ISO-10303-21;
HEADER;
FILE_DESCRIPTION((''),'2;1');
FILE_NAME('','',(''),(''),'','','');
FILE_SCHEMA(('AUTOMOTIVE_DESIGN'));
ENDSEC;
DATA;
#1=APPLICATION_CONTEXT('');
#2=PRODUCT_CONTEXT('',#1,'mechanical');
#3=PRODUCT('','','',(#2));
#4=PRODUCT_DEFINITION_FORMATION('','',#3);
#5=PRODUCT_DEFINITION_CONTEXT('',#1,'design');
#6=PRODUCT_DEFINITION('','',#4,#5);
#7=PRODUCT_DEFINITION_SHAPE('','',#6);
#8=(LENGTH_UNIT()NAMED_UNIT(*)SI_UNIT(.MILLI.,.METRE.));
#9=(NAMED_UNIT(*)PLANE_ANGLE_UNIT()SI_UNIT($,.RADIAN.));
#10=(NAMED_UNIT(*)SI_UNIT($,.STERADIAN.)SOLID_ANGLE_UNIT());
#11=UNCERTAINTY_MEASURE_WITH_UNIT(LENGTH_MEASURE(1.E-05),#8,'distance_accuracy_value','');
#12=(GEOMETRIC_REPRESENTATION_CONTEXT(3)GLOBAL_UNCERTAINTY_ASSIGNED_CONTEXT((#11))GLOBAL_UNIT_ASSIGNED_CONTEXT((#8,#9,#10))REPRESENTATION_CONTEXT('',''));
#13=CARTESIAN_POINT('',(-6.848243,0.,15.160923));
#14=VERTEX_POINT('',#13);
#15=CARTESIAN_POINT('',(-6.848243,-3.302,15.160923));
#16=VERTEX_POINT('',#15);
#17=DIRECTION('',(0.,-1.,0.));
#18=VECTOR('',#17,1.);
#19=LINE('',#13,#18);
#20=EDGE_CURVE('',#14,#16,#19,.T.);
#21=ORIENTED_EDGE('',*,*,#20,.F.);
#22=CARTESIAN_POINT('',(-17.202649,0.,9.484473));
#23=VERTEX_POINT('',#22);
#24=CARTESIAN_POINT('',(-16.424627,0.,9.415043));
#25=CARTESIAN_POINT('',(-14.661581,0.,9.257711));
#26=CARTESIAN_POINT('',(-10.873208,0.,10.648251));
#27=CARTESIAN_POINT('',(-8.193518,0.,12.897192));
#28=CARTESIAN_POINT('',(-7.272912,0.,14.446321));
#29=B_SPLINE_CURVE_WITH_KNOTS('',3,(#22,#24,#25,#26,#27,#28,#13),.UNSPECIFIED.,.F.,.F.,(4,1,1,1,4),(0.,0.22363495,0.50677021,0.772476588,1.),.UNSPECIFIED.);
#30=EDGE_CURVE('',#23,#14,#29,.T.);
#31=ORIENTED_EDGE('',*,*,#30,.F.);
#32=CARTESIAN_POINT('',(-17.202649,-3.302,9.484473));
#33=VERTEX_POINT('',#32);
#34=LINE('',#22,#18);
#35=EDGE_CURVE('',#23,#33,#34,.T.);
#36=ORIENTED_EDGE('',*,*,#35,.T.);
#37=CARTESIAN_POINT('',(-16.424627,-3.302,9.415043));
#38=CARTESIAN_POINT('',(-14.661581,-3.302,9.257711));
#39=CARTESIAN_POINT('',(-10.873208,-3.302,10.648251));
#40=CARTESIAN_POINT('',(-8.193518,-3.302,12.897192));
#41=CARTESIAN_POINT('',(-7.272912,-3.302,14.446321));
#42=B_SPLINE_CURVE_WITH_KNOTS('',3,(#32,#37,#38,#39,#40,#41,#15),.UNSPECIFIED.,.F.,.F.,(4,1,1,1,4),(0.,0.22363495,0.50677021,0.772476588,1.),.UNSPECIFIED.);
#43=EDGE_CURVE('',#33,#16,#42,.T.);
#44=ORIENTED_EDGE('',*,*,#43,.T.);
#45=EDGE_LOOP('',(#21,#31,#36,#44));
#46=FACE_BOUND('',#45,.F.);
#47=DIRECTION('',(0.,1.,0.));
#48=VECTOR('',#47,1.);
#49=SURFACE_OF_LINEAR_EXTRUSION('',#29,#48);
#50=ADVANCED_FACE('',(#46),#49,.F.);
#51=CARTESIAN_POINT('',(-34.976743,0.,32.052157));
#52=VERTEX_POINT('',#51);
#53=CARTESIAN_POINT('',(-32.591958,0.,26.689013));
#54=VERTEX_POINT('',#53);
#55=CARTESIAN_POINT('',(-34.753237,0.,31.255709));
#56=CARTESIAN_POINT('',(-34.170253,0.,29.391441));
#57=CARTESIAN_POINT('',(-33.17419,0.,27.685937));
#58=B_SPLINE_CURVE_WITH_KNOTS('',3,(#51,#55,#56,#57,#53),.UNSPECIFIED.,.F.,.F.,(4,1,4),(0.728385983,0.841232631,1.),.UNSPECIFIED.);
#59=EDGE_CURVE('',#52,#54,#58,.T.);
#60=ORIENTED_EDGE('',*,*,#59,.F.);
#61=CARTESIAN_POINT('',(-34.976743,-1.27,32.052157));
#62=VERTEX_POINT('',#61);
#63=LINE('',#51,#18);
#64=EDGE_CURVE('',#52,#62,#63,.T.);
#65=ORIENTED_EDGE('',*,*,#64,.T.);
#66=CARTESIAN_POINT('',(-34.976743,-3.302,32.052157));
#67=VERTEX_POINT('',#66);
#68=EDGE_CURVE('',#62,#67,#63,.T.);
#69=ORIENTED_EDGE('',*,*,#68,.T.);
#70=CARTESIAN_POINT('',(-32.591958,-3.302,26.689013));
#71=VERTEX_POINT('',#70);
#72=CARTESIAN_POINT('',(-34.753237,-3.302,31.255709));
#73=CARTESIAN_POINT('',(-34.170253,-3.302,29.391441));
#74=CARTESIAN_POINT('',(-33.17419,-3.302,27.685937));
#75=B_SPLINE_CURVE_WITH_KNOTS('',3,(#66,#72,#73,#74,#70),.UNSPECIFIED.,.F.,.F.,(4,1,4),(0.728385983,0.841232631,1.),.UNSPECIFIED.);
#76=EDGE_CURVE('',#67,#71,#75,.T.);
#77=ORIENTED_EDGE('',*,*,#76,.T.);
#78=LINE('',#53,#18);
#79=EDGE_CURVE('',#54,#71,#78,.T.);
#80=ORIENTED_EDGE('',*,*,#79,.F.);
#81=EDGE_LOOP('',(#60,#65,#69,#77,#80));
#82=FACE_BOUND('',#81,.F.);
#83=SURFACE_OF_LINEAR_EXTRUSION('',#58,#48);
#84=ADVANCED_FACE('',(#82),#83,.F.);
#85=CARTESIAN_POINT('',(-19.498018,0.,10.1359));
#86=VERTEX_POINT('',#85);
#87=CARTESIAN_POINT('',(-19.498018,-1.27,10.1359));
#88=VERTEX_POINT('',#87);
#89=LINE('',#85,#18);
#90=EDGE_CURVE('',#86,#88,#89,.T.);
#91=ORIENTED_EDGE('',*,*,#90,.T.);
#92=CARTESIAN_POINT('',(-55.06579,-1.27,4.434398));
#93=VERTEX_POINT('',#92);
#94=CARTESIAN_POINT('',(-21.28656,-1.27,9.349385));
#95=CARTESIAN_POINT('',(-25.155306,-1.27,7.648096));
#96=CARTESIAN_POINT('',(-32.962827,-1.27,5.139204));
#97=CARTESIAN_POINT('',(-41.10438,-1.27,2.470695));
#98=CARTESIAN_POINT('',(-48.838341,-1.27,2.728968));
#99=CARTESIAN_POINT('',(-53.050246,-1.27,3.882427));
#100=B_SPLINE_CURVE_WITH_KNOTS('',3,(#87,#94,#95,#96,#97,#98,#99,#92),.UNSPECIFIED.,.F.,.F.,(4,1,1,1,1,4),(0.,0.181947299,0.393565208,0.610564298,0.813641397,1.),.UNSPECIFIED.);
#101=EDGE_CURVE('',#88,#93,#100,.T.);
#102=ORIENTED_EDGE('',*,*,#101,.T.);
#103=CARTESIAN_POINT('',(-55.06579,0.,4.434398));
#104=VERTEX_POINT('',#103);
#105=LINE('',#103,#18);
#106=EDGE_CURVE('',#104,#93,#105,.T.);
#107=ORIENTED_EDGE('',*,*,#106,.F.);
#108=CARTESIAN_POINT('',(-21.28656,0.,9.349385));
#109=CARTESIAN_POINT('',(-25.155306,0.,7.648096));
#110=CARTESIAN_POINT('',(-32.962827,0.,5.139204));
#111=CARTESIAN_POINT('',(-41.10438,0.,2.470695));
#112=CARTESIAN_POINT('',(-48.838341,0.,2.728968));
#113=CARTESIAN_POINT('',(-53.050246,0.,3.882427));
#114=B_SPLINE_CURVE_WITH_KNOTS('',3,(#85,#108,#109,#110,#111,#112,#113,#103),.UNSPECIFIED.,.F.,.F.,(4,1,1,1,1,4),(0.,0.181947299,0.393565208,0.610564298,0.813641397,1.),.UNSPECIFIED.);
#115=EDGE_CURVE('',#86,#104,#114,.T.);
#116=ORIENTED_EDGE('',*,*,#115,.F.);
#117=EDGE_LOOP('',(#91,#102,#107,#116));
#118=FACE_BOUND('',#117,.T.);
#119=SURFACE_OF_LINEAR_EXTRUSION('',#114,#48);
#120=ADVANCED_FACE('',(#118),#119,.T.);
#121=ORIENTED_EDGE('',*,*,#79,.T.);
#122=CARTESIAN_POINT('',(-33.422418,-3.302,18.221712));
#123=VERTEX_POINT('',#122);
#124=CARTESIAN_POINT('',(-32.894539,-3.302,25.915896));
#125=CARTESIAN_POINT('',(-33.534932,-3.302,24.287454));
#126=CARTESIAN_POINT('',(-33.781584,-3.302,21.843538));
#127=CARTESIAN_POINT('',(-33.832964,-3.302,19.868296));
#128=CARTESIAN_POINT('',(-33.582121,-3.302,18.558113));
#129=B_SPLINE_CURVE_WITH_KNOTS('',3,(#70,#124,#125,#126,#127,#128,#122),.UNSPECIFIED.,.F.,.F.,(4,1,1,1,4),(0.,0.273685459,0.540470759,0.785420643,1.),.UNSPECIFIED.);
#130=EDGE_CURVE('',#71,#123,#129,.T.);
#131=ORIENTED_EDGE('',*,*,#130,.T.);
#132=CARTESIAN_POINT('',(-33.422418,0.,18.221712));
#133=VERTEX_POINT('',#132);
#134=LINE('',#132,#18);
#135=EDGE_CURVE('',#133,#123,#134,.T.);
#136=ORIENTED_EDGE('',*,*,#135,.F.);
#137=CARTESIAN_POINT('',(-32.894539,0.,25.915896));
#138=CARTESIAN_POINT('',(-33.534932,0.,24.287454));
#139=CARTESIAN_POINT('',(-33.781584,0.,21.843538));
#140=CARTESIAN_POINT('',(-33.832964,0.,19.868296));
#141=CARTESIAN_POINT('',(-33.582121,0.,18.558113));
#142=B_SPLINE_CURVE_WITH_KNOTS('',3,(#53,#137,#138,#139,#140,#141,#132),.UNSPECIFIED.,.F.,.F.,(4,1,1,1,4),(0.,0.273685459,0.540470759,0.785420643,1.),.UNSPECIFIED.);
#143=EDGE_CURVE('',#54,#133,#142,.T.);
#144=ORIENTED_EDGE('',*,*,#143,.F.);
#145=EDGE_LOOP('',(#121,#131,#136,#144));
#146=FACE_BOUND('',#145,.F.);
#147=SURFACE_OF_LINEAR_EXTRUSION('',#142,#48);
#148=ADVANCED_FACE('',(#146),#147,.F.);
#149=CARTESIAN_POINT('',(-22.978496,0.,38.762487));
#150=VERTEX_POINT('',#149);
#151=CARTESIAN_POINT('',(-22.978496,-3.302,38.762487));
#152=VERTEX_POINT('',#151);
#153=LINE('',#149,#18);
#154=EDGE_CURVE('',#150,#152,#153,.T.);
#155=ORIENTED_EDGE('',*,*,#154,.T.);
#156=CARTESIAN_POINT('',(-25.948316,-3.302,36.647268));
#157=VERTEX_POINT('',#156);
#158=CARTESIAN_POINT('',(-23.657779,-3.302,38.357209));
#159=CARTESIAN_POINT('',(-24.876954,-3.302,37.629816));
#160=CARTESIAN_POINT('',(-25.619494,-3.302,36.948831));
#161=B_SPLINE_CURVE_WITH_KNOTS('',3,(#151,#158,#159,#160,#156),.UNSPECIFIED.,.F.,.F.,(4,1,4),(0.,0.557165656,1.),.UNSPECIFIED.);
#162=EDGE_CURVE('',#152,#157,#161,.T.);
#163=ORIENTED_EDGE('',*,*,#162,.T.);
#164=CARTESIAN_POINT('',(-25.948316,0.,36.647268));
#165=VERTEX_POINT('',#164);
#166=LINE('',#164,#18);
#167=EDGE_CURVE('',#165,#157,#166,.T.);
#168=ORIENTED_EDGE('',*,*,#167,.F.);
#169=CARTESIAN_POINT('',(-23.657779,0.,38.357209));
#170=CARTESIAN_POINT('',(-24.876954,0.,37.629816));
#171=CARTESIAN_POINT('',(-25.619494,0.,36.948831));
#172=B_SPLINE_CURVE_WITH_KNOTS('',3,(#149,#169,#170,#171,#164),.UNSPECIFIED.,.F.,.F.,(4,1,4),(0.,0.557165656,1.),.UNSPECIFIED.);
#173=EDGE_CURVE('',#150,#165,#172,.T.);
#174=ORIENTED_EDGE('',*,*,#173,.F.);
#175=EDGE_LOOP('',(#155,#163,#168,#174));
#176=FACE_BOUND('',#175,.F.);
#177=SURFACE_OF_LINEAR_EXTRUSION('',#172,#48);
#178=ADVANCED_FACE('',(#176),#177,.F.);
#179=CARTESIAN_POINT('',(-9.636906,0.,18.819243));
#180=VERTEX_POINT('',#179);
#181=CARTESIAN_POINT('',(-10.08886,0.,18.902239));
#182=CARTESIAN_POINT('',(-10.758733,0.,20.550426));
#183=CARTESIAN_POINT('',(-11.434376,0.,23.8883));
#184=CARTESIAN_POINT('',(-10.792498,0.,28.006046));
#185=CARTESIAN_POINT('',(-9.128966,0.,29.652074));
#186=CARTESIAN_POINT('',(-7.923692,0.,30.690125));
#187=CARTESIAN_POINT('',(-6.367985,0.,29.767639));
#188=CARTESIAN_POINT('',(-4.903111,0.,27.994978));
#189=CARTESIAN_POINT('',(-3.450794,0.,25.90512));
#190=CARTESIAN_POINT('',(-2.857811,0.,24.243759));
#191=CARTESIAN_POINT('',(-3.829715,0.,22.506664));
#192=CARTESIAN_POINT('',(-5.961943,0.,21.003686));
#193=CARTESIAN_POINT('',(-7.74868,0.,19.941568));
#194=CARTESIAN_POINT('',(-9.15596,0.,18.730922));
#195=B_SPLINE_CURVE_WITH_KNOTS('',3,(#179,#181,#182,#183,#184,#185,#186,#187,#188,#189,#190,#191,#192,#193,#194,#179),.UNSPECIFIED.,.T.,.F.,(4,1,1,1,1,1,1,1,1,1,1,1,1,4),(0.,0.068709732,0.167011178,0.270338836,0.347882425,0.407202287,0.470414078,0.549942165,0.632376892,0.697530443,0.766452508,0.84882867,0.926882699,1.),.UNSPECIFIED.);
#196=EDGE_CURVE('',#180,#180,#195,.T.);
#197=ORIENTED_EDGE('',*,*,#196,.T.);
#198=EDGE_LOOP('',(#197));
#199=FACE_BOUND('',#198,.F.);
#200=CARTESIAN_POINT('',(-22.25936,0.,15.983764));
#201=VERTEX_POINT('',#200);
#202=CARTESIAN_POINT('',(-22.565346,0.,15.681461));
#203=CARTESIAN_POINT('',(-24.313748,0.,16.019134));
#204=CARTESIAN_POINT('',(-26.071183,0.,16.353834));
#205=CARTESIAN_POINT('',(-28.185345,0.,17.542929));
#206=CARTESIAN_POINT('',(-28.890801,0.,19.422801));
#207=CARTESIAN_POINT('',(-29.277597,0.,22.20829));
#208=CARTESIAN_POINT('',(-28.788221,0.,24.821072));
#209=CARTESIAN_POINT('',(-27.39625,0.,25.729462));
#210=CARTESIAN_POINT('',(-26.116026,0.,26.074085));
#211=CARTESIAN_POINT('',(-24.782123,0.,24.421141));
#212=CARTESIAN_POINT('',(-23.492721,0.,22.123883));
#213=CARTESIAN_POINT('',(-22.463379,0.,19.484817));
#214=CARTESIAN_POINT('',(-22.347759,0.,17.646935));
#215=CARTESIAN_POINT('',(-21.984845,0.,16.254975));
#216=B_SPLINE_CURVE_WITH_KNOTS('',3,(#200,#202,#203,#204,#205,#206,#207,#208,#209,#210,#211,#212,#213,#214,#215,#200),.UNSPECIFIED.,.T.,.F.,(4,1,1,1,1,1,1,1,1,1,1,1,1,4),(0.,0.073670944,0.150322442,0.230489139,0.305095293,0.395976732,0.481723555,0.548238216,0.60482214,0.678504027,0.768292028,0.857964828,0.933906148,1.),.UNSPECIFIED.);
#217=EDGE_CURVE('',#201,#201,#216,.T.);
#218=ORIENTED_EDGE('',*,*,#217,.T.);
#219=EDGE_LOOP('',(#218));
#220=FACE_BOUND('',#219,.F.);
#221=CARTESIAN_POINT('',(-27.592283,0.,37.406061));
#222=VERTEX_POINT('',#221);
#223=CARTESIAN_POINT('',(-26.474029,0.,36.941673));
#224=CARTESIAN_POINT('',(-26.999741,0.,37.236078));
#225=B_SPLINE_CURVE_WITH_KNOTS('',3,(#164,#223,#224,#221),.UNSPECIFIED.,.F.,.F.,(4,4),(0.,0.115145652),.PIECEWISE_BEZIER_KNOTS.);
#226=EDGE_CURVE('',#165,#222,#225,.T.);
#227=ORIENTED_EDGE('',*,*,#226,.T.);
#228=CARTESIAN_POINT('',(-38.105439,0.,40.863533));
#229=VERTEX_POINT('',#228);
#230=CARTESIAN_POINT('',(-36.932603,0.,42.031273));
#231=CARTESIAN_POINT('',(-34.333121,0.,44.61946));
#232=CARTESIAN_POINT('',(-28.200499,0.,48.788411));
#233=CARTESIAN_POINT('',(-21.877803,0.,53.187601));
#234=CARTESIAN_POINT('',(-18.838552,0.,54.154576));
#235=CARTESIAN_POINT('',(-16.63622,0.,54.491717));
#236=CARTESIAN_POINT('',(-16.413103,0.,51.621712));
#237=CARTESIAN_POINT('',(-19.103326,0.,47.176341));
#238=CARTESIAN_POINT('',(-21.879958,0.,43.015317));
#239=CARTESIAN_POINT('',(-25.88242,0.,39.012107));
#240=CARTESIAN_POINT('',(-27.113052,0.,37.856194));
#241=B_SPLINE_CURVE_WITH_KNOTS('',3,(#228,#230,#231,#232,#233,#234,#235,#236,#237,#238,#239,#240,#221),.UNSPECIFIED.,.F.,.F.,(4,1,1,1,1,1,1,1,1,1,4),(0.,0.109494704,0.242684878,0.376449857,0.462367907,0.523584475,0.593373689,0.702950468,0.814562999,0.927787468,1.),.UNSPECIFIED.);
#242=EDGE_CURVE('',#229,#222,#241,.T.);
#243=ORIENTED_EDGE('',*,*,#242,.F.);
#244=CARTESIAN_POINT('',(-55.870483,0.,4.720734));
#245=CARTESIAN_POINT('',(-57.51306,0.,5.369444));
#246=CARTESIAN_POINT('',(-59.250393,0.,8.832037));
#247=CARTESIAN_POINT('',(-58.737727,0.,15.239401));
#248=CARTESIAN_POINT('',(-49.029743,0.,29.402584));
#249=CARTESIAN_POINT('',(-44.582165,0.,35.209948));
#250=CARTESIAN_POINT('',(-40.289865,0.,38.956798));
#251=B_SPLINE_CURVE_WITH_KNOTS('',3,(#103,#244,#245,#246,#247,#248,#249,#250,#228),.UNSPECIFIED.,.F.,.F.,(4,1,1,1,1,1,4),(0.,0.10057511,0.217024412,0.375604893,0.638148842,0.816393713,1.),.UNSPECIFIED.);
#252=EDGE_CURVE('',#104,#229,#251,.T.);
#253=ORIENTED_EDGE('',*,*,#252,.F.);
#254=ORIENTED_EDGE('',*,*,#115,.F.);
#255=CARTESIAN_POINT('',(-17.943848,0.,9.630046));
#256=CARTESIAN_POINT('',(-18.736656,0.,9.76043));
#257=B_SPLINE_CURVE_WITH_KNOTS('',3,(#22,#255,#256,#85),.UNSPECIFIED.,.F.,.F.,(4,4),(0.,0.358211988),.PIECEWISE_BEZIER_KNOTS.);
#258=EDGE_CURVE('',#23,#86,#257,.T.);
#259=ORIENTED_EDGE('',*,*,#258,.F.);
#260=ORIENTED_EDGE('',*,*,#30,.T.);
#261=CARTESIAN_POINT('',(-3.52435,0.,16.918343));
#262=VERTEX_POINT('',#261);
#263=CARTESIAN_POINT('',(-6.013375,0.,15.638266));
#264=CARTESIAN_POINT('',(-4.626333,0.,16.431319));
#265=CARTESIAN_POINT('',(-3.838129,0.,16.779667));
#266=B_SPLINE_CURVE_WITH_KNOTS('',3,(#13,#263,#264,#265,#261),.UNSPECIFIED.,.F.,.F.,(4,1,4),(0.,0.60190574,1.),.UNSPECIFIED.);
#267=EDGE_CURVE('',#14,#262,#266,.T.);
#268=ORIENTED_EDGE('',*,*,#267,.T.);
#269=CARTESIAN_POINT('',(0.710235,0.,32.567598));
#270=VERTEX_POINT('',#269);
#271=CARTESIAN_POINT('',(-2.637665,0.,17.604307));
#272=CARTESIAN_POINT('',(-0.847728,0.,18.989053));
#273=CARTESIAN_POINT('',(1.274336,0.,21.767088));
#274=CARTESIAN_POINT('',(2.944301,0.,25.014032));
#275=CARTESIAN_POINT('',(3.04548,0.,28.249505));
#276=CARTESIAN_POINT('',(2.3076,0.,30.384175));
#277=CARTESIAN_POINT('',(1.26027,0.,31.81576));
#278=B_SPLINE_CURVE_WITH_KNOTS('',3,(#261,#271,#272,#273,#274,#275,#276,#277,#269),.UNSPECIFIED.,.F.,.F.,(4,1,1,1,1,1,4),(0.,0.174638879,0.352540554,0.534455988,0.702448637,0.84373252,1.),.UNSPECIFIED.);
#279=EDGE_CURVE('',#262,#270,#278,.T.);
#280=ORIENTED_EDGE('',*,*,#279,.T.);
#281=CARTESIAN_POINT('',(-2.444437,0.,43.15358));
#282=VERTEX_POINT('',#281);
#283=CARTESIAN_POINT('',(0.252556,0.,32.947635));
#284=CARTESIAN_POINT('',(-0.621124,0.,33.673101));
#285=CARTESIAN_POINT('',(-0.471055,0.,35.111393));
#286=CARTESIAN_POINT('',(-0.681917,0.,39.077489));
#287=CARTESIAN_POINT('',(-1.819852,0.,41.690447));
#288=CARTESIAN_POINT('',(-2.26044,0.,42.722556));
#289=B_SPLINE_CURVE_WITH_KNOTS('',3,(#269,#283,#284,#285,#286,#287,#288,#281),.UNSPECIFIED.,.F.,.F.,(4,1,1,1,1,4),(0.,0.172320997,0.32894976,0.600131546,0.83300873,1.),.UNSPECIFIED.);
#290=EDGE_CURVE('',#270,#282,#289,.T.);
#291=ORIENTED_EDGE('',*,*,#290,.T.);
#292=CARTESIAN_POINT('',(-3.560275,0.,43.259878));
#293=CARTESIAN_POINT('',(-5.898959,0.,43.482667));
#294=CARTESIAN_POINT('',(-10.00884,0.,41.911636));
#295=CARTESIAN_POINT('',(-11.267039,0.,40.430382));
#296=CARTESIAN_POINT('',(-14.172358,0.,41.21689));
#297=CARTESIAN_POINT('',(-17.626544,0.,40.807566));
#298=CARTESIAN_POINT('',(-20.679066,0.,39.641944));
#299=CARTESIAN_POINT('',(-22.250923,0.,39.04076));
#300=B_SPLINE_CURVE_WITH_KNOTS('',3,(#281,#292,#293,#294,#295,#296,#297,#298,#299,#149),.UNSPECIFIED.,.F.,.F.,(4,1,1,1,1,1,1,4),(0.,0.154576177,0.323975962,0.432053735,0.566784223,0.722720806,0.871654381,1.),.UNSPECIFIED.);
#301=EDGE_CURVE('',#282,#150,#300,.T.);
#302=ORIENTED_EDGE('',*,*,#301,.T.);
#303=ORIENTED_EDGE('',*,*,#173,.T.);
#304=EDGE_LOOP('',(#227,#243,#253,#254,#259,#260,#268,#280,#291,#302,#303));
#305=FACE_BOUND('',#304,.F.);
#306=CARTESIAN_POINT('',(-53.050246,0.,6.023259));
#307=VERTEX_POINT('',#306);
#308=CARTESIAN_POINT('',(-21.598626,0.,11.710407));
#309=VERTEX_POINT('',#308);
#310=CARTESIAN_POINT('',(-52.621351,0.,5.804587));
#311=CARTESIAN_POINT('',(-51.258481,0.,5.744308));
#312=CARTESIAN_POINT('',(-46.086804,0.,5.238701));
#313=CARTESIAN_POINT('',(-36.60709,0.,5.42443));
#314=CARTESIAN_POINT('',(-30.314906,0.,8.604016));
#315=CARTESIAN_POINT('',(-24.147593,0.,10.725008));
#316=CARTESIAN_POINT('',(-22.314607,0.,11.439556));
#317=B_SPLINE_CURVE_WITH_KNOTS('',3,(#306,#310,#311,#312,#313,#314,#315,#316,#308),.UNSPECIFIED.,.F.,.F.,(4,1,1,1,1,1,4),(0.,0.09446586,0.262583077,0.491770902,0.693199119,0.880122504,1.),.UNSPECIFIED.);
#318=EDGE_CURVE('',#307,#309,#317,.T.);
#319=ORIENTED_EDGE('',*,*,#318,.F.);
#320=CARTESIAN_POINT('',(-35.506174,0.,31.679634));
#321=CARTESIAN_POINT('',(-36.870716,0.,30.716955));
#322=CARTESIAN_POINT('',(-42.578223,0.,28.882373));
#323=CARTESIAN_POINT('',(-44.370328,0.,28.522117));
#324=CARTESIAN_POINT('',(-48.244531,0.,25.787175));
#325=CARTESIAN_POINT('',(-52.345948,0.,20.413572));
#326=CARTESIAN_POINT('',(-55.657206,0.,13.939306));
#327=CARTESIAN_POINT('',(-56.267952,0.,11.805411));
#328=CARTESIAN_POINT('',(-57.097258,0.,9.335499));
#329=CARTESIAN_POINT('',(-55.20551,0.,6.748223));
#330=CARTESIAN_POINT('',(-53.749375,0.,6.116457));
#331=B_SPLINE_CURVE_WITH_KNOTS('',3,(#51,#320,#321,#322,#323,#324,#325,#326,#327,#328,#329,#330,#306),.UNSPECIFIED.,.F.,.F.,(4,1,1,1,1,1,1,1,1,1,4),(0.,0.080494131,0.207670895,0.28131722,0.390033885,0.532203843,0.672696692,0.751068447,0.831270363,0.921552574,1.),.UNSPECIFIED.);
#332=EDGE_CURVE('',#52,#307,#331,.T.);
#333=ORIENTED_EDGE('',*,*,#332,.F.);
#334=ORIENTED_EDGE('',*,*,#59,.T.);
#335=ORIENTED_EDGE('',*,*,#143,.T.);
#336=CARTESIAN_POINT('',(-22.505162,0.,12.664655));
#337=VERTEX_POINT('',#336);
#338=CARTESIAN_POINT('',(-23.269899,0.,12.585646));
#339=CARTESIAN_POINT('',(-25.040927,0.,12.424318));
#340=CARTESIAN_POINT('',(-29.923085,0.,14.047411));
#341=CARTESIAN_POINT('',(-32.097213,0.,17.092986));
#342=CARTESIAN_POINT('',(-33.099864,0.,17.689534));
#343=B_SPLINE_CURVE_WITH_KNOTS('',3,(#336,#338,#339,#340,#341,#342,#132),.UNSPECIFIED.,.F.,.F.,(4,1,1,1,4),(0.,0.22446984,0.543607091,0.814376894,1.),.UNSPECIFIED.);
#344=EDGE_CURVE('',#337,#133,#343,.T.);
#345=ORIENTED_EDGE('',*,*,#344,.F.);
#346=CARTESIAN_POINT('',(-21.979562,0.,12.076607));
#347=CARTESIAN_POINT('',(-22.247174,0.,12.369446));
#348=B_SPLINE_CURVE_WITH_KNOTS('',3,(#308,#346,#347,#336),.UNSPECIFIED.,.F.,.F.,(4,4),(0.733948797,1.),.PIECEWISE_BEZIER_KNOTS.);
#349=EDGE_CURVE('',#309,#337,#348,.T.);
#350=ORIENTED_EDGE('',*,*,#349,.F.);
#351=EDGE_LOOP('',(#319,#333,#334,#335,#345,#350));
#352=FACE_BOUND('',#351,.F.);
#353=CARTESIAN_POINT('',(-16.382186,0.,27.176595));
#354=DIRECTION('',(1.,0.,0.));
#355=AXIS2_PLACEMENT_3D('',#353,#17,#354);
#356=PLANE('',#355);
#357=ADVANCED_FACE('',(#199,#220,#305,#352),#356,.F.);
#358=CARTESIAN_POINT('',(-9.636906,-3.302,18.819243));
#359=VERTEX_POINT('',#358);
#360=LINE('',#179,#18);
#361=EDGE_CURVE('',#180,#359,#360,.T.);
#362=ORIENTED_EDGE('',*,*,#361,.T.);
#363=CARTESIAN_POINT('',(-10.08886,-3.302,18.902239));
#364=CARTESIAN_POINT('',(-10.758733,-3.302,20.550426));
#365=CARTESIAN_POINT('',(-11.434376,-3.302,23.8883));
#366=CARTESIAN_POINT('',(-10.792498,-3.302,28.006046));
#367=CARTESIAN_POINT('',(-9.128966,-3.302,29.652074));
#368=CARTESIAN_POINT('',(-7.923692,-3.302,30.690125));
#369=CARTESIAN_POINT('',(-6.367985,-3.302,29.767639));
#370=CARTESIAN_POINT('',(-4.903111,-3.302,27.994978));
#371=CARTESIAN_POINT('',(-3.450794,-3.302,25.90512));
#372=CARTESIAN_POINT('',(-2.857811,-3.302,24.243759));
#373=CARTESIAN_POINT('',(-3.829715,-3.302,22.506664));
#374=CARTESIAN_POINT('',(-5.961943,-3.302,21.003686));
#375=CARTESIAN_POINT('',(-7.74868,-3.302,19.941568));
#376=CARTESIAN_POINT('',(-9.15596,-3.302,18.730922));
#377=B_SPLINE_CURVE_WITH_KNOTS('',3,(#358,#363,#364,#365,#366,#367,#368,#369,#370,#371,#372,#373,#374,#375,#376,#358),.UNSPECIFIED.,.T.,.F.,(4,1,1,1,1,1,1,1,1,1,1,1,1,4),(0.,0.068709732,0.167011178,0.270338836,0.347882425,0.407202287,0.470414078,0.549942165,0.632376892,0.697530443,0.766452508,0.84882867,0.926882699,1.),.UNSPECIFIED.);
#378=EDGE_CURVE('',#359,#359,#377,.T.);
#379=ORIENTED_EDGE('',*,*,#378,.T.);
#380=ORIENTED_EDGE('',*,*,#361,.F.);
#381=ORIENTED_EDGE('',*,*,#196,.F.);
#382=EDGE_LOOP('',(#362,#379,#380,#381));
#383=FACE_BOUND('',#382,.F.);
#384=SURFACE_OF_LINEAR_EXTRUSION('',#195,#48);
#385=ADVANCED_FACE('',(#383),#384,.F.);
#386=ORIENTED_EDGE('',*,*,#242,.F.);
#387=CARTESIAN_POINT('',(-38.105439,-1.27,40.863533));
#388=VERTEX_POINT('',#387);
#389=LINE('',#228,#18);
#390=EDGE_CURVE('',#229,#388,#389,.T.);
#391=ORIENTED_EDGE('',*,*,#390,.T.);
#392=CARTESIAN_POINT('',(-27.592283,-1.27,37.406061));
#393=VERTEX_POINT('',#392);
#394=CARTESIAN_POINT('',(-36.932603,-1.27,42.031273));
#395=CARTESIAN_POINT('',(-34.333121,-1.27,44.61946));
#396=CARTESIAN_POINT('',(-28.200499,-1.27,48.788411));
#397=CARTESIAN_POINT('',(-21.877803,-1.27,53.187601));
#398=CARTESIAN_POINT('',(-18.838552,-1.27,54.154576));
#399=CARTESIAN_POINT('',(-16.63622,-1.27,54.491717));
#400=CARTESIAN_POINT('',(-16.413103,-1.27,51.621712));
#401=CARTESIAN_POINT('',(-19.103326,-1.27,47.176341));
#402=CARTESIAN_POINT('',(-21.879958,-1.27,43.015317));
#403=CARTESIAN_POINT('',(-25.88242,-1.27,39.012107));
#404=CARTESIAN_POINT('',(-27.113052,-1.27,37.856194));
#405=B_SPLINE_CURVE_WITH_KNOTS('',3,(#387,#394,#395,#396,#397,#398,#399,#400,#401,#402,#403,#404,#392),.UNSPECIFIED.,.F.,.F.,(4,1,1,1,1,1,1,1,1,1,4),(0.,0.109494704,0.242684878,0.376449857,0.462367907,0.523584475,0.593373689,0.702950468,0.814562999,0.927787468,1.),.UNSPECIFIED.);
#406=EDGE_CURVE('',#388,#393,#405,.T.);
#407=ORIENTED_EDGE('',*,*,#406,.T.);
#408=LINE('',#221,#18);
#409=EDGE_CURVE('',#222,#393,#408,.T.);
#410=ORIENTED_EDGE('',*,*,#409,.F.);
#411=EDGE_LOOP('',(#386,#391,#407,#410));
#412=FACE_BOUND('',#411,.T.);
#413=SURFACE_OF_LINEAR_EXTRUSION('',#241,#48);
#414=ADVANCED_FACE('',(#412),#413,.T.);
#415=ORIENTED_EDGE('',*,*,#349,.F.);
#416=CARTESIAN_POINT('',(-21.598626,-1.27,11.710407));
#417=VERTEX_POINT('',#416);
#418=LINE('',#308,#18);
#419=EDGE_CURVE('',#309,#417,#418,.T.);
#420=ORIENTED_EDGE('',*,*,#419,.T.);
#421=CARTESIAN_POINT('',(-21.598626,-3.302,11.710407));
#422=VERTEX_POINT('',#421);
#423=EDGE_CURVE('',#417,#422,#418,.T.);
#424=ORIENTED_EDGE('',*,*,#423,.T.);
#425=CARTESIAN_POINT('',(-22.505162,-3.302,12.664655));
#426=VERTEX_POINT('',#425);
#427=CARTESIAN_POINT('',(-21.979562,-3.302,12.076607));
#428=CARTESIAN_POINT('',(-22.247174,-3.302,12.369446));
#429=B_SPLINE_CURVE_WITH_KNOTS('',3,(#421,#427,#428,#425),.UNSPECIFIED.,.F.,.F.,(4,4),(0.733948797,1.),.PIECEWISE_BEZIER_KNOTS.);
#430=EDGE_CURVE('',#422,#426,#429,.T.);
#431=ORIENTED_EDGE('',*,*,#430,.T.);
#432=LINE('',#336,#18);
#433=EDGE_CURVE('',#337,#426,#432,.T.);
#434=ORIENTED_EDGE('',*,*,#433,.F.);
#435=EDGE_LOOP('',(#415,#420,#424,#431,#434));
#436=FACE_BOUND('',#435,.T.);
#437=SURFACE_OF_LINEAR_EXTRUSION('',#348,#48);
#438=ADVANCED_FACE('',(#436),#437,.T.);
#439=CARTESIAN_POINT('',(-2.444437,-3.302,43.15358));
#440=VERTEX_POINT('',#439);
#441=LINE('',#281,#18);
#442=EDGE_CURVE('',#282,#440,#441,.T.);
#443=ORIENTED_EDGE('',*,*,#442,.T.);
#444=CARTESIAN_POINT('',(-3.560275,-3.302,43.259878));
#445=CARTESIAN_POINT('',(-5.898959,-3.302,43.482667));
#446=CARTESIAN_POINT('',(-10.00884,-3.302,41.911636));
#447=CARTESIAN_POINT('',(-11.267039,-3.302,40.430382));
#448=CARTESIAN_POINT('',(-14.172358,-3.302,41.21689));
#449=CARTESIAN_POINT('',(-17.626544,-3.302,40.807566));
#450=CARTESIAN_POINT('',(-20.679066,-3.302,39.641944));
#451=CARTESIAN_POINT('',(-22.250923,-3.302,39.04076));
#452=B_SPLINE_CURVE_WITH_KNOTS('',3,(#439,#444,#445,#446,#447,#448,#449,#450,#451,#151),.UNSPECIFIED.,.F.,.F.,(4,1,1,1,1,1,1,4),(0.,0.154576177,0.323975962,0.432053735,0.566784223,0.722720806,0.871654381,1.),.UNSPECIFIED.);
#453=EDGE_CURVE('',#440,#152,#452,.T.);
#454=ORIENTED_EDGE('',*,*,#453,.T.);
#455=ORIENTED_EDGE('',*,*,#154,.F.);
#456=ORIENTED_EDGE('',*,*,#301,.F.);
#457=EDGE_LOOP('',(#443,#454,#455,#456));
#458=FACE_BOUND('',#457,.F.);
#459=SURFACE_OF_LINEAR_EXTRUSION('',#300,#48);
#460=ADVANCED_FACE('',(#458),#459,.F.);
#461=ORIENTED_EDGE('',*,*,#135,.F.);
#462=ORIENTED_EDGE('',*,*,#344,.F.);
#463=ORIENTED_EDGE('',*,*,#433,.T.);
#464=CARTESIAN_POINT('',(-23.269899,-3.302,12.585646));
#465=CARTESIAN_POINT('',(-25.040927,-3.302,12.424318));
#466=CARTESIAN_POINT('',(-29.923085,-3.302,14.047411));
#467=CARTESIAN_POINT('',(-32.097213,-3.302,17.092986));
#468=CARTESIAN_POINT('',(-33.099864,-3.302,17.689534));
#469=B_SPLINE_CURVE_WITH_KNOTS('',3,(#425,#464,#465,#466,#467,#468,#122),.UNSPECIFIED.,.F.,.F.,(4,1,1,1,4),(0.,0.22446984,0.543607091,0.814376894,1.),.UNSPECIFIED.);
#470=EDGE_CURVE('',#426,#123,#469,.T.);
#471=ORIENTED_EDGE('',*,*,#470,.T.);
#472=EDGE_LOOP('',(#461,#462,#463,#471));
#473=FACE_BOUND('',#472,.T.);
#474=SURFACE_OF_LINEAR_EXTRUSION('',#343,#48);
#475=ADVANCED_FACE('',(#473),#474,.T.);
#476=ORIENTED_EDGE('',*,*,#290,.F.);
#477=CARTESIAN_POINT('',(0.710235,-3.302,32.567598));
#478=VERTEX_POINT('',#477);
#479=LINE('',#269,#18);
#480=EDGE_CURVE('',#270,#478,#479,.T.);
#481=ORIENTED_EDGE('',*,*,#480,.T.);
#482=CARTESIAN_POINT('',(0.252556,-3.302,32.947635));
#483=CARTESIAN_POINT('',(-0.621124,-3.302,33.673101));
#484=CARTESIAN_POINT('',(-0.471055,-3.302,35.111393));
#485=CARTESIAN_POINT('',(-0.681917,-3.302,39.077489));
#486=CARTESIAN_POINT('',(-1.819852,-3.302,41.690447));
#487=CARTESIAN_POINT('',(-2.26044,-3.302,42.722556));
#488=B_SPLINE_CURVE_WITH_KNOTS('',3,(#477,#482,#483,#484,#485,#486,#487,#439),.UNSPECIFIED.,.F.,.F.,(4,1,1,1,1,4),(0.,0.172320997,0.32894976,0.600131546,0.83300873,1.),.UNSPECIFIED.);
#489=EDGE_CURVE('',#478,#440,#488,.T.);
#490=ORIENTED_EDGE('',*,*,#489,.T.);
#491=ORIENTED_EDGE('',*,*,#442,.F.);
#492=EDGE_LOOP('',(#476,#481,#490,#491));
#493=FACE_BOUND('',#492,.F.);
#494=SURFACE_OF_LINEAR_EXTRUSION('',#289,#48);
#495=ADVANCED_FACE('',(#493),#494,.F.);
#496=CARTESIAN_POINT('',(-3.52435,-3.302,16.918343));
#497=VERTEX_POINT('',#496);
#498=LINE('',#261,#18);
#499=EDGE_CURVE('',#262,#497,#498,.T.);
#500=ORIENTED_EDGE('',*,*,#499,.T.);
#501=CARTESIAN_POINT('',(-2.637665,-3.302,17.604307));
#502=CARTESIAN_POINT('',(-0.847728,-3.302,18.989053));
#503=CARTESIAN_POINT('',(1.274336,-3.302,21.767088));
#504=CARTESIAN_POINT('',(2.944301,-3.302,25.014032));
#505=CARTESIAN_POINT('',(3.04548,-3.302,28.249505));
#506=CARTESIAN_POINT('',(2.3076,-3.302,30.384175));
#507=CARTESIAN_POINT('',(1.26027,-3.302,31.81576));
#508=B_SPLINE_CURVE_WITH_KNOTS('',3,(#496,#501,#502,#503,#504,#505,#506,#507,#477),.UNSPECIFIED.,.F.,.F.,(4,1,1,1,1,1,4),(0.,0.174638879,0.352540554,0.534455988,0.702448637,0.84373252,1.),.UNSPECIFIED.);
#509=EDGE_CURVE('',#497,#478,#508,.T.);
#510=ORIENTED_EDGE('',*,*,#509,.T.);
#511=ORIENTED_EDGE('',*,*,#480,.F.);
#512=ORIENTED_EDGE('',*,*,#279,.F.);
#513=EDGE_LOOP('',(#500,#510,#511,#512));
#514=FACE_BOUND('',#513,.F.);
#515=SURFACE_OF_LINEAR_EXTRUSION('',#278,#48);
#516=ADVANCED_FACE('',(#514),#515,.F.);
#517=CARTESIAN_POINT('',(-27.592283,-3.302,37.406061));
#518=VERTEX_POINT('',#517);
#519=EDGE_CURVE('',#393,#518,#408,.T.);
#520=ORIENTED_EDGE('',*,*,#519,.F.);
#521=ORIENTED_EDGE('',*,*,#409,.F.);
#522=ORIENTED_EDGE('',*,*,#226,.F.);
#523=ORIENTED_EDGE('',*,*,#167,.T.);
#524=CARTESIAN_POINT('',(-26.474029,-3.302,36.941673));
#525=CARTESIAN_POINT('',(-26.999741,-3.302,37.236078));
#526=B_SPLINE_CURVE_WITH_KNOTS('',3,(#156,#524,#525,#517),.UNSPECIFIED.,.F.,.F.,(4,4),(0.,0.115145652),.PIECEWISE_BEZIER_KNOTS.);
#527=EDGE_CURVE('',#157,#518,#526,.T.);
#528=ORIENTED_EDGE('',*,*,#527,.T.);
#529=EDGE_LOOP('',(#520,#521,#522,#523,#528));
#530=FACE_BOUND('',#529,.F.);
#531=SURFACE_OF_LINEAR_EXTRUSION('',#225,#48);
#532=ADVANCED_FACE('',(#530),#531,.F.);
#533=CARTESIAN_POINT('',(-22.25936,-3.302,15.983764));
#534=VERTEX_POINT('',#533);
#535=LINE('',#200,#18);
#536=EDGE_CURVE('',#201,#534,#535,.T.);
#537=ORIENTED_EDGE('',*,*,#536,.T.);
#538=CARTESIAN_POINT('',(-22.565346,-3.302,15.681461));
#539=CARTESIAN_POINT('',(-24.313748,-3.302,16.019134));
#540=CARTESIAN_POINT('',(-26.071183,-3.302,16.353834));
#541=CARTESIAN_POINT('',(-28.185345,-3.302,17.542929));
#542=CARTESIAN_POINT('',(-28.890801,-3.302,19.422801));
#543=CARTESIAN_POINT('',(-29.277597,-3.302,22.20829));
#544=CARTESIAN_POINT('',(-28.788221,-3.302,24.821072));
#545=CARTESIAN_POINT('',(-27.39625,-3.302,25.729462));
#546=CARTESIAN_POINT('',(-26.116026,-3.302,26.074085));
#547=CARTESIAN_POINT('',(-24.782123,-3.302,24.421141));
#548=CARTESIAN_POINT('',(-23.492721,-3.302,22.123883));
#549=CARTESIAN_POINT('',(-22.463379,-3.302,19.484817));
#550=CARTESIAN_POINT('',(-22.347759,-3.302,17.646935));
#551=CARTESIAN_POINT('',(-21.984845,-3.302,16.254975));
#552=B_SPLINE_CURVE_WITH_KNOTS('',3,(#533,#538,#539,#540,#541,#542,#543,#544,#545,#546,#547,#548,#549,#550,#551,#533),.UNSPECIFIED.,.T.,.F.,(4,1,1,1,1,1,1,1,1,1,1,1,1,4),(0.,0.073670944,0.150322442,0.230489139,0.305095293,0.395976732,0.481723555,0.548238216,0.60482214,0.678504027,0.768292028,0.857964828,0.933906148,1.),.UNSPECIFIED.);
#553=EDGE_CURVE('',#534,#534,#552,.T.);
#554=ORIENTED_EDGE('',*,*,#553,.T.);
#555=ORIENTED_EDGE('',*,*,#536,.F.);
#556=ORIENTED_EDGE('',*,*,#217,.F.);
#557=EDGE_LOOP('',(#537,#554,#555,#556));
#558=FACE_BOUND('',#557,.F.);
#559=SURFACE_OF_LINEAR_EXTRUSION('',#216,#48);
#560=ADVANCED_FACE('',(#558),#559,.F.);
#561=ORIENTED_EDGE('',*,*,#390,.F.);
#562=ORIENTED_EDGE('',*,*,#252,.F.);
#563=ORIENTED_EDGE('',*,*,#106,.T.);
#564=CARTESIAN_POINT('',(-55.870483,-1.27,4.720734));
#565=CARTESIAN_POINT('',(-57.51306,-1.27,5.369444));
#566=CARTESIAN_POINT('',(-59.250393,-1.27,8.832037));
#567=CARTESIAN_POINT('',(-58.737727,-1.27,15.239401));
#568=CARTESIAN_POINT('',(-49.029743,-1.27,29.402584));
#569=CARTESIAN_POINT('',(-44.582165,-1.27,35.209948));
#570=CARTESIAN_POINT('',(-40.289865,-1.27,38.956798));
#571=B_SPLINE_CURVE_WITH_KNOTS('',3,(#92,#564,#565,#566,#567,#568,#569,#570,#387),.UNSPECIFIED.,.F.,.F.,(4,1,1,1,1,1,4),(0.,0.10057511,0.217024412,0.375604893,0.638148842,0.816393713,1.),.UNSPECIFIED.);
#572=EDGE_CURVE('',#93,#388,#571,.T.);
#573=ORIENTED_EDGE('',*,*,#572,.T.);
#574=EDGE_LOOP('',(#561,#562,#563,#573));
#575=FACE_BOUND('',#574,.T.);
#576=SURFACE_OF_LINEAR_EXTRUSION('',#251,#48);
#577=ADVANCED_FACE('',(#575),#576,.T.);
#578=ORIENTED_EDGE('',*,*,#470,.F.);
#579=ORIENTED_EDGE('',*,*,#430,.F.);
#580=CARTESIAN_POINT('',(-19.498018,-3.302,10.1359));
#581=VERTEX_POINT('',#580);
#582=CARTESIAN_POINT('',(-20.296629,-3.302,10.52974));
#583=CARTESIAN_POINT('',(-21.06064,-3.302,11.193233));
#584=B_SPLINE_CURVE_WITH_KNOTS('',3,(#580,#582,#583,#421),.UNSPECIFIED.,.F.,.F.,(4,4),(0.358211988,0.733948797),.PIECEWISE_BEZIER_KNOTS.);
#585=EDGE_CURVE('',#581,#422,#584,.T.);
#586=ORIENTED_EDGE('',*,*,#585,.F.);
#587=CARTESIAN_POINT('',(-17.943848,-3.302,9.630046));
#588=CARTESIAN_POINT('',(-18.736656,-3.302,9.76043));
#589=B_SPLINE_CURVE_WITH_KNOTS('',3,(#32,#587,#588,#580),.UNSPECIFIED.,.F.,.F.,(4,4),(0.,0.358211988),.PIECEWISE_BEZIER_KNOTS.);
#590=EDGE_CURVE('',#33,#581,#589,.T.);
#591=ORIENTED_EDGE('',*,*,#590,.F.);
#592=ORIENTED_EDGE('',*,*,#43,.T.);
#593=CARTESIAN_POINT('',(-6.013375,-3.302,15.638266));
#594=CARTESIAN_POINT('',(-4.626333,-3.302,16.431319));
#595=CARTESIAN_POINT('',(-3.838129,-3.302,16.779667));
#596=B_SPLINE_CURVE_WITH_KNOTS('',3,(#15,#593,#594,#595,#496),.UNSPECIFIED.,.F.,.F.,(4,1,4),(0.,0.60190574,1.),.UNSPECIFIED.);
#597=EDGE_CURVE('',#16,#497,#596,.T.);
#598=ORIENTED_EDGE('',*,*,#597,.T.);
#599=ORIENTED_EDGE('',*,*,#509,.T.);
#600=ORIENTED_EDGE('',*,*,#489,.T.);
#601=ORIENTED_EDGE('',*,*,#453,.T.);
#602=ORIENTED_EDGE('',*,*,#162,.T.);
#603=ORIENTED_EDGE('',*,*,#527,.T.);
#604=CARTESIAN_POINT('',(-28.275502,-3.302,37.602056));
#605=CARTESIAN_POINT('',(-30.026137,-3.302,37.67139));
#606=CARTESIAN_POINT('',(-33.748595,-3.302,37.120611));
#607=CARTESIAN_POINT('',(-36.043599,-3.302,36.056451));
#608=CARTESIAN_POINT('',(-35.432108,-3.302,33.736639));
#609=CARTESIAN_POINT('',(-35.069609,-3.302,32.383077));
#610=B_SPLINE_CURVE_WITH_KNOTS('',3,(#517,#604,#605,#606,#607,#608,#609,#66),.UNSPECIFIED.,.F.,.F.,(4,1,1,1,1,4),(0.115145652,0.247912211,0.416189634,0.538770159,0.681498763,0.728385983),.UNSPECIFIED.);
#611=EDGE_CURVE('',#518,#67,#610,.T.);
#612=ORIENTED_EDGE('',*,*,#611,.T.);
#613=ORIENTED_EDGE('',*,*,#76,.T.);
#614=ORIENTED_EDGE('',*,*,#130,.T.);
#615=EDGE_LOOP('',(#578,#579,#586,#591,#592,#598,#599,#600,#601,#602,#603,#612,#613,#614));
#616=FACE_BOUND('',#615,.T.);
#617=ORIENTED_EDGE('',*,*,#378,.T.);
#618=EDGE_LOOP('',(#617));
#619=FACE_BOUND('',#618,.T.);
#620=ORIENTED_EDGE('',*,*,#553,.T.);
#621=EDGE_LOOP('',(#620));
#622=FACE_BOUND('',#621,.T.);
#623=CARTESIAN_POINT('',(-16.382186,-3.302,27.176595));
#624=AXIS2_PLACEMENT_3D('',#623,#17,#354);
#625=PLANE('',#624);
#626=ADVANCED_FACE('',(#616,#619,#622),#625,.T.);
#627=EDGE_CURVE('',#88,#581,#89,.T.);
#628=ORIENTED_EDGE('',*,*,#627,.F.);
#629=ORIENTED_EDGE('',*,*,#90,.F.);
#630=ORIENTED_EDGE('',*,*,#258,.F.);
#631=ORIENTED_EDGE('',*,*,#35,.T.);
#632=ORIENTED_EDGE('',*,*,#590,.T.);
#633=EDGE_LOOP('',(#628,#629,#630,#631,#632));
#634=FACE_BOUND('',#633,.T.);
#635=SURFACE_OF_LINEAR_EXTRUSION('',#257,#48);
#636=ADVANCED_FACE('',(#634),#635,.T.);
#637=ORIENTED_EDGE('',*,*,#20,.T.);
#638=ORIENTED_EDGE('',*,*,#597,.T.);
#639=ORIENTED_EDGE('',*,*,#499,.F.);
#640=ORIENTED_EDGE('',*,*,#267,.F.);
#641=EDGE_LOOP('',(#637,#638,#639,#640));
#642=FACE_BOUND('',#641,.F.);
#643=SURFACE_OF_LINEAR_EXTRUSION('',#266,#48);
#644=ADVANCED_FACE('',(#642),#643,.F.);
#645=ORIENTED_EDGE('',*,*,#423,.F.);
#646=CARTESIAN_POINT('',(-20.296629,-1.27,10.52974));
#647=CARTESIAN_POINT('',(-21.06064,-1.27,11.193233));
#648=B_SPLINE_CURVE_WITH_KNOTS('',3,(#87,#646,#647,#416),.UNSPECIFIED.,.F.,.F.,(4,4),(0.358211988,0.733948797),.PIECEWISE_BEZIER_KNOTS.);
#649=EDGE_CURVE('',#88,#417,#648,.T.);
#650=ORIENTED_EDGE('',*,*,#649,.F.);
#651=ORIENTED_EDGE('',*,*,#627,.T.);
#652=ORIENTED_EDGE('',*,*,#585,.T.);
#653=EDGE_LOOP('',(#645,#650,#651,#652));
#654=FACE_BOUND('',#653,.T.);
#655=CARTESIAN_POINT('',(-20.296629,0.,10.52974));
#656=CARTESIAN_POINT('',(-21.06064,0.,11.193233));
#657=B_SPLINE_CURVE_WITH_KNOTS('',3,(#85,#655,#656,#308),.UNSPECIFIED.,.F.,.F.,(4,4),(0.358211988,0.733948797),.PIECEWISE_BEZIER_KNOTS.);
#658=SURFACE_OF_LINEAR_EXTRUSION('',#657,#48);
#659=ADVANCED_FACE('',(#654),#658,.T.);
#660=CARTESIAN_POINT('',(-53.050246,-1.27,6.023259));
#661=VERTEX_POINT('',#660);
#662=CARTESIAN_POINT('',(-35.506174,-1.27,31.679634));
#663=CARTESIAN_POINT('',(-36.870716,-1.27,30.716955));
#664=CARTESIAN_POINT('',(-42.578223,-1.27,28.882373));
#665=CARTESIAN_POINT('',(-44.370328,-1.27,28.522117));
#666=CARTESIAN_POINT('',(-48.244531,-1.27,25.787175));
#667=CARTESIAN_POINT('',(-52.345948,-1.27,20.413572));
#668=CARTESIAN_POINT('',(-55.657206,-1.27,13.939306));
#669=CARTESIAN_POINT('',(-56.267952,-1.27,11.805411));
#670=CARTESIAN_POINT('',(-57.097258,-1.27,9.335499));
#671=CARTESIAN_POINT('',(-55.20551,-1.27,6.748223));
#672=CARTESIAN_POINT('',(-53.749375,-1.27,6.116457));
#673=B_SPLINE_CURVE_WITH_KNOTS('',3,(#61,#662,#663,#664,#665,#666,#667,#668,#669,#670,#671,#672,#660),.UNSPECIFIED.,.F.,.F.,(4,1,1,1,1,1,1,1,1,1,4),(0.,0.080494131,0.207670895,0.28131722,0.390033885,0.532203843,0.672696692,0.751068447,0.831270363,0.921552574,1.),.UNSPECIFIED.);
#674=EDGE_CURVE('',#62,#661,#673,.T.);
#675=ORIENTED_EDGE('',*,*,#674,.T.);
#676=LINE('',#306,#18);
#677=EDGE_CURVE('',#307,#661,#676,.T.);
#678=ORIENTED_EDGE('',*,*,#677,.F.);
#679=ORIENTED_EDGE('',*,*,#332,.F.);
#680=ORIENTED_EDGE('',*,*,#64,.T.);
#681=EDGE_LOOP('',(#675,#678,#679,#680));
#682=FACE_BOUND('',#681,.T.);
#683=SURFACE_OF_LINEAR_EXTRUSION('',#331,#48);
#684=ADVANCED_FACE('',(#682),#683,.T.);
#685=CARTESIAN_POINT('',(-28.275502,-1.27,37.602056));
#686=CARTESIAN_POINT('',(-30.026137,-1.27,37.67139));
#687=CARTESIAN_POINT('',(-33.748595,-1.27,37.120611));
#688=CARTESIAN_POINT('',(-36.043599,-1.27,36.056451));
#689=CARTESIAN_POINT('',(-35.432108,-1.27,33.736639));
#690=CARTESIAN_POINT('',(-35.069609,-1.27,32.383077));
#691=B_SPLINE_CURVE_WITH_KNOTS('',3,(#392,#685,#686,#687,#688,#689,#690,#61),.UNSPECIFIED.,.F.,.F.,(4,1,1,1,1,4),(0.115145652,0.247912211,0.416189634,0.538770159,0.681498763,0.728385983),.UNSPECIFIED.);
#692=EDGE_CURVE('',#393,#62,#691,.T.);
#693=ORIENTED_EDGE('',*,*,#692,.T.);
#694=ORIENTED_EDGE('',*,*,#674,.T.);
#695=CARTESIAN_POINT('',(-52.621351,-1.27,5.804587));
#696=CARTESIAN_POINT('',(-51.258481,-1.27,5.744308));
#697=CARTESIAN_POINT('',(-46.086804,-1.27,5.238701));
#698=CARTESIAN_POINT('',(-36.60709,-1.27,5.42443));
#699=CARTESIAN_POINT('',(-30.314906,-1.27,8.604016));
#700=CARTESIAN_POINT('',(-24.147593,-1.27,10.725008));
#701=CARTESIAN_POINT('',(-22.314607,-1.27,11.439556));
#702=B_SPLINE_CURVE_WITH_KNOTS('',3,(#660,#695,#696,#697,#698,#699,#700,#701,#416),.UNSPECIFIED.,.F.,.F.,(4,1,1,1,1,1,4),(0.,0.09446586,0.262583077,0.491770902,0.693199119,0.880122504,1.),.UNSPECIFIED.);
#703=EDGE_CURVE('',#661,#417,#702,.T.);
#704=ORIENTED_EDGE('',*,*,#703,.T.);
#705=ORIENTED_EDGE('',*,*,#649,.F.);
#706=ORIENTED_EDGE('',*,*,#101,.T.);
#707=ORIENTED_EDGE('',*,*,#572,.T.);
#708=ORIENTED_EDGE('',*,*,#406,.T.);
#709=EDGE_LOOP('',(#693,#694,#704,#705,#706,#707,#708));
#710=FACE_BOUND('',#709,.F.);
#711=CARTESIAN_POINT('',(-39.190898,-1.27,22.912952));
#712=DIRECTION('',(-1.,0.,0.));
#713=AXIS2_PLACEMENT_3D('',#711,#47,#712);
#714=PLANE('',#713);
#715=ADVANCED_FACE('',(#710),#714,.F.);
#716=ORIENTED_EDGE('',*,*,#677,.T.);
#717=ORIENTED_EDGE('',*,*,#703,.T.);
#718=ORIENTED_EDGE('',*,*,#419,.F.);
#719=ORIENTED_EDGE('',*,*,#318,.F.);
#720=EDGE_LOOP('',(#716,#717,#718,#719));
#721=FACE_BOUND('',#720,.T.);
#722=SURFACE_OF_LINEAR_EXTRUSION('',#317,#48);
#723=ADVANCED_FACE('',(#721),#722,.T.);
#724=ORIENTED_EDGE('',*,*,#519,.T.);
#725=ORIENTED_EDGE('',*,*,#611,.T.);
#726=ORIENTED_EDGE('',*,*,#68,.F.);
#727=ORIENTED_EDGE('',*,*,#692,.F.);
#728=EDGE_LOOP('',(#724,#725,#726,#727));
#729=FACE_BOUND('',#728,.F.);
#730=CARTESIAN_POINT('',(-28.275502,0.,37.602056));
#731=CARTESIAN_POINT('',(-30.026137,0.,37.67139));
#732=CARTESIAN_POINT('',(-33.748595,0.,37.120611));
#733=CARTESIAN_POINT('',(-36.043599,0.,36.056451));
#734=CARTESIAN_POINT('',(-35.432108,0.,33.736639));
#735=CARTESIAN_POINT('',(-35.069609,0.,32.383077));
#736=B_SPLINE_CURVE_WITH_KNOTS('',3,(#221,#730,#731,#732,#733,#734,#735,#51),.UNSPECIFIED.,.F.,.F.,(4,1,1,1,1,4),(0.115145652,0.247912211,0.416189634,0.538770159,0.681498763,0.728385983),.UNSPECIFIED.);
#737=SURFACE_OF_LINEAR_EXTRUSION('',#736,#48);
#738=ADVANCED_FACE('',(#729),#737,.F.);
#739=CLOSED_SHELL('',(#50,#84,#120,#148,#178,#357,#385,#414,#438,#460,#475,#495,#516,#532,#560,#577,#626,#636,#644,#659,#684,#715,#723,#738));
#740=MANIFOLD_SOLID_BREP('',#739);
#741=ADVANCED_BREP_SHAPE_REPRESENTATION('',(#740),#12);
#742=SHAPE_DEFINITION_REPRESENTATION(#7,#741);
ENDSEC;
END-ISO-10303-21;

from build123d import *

# Parameters (mm, degrees)
F1_DEPTH = 1.27
F2_DEPTH = 3.302


with BuildPart() as f1:
    # F0 (on Front) → F1 (new body)
    with BuildSketch(Plane.XZ):
        with BuildLine():
            add(Edge.make_bspline(
                [(-19.4980184097, 10.1359002292), (-21.2865603263, 9.3493851698), (-25.1553062444, 7.6480960375), (-32.9628273352, 5.1392041198), (-41.1043799434, 2.4706946228), (-48.8383408551, 2.7289682214), (-53.0502460897, 3.8824273671), (-55.0657900531, 4.4343979098)],
                knots=[0, 0, 0, 0, 0.1819472995, 0.3935652084, 0.6105642984, 0.8136413965, 1, 1, 1, 1], degree=3))
            add(Edge.make_bspline(
                [(-19.4980184097, 10.1359002292), (-20.2966286978, 10.5297396517), (-21.0606403725, 11.1932332052), (-21.5986259282, 11.7104072124)],
                knots=[0.3582119883, 0.3582119883, 0.3582119883, 0.3582119883, 0.7339487965, 0.7339487965, 0.7339487965, 0.7339487965], degree=3))
            add(Edge.make_bspline(
                [(-53.0502460897, 6.0232589021), (-52.6213511132, 5.8045870029), (-51.2584814541, 5.7443079886), (-46.0868040903, 5.238700949), (-36.6070897052, 5.4244302757), (-30.314905582, 8.6040159858), (-24.1475932001, 10.7250078422), (-22.3146067142, 11.4395559744), (-21.5986259282, 11.7104072124)],
                knots=[0, 0, 0, 0, 0.0944658603, 0.2625830766, 0.491770902, 0.6931991188, 0.8801225043, 1, 1, 1, 1], degree=3))
            add(Edge.make_bspline(
                [(-34.9767432438, 32.0521566405), (-35.5061735855, 31.6796343834), (-36.8707157706, 30.7169554243), (-42.5782231257, 28.882372513), (-44.3703282629, 28.5221171081), (-48.2445313282, 25.7871746762), (-52.3459483395, 20.4135717725), (-55.657205722, 13.9393059572), (-56.2679522749, 11.805410964), (-57.0972583727, 9.3354991341), (-55.2055097306, 6.7482226877), (-53.7493745248, 6.1164570158), (-53.0502460897, 6.0232589021)],
                knots=[0, 0, 0, 0, 0.0804941311, 0.2076708945, 0.2813172197, 0.3900338849, 0.5322038433, 0.6726966925, 0.7510684467, 0.8312703631, 0.9215525737, 1, 1, 1, 1], degree=3))
            add(Edge.make_bspline(
                [(-27.5922827423, 37.4060608447), (-28.2755015456, 37.6020561785), (-30.0261371385, 37.6713902047), (-33.7485945978, 37.1206110724), (-36.0435991794, 36.0564506802), (-35.4321083624, 33.7366391612), (-35.0696091242, 32.3830767366), (-34.9767432438, 32.0521566405)],
                knots=[0.1151456515, 0.1151456515, 0.1151456515, 0.1151456515, 0.2479122111, 0.4161896337, 0.5387701595, 0.6814987627, 0.7283859827, 0.7283859827, 0.7283859827, 0.7283859827], degree=3))
            add(Edge.make_bspline(
                [(-38.1054393947, 40.863532573), (-36.9326032959, 42.0312726537), (-34.3331206127, 44.6194604844), (-28.2004988677, 48.7884110842), (-21.8778027754, 53.1876006015), (-18.8385524922, 54.1545761657), (-16.6362197095, 54.4917167063), (-16.4131026591, 51.6217121097), (-19.1033262399, 47.1763410396), (-21.8799577007, 43.0153166958), (-25.8824197759, 39.0121070679), (-27.113052166, 37.8561942602), (-27.5922827423, 37.4060608447)],
                knots=[0, 0, 0, 0, 0.1094947036, 0.2426848784, 0.3764498573, 0.4623679072, 0.5235844749, 0.5933736886, 0.7029504681, 0.8145629985, 0.9277874678, 1, 1, 1, 1], degree=3))
            add(Edge.make_bspline(
                [(-55.0657900531, 4.4343979098), (-55.8704830395, 4.7207342442), (-57.5130601562, 5.3694438547), (-59.2503929568, 8.8320368182), (-58.7377273677, 15.2394006371), (-49.029743364, 29.4025837456), (-44.5821647292, 35.2099478109), (-40.2898652388, 38.9567977521), (-38.1054393947, 40.863532573)],
                knots=[0, 0, 0, 0, 0.1005751101, 0.2170244123, 0.3756048929, 0.638148842, 0.8163937126, 1, 1, 1, 1], degree=3))
        make_face()
    extrude(amount=F1_DEPTH)

    # F0 (on Front) → F2 (join)
    with BuildSketch(Plane.XZ):
        with BuildLine():
            add(Edge.make_bspline(
                [(-6.8482430652, 15.1609228924), (-6.0133745851, 15.6382661306), (-4.6263326861, 16.4313192731), (-3.8381294282, 16.7796672359), (-3.5243502352, 16.9183425605)],
                knots=[0, 0, 0, 0, 0.6019057396, 1, 1, 1, 1], degree=3))
            add(Edge.make_bspline(
                [(-3.5243502352, 16.9183425605), (-2.6376649877, 17.6043074804), (-0.8477284585, 18.9890532753), (1.2743356681, 21.767087587), (2.9443008109, 25.0140323558), (3.0454802783, 28.2495052217), (2.3075998308, 30.3841746503), (1.2602695243, 31.8157603625), (0.7102345116, 32.5675979257)],
                knots=[0, 0, 0, 0, 0.1746388788, 0.3525405542, 0.5344559878, 0.7024486369, 0.8437325199, 1, 1, 1, 1], degree=3))
            add(Edge.make_bspline(
                [(0.7102345116, 32.5675979257), (0.2525557779, 32.9476349423), (-0.6211236476, 33.6731012966), (-0.4710547385, 35.111393401), (-0.6819170334, 39.0774894528), (-1.8198515028, 41.6904474549), (-2.2604402925, 42.7225558147), (-2.4444370065, 43.1535802782)],
                knots=[0, 0, 0, 0, 0.1723209971, 0.3289497603, 0.6001315457, 0.8330087298, 1, 1, 1, 1], degree=3))
            add(Edge.make_bspline(
                [(-2.4444370065, 43.1535802782), (-3.5602752231, 43.2598777698), (-5.8989587498, 43.4826665119), (-10.0088400781, 41.9116359694), (-11.2670387087, 40.4303821939), (-14.172358414, 41.2168899454), (-17.6265437841, 40.8075663153), (-20.6790658609, 39.6419442545), (-22.2509225639, 39.0407604512), (-22.9784958065, 38.7624874711)],
                knots=[0, 0, 0, 0, 0.1545761774, 0.3239759621, 0.4320537346, 0.5667842231, 0.7227208062, 0.8716543806, 1, 1, 1, 1], degree=3))
            add(Edge.make_bspline(
                [(-22.9784958065, 38.7624874711), (-23.6577785567, 38.357209125), (-24.8769541165, 37.629816218), (-25.6194937896, 36.9488311955), (-25.9483158588, 36.6472676396)],
                knots=[0, 0, 0, 0, 0.5571656558, 1, 1, 1, 1], degree=3))
            add(Edge.make_bspline(
                [(-25.9483158588, 36.6472676396), (-26.4740286342, 36.9416729218), (-26.9997414095, 37.2360782041), (-27.5922827423, 37.4060608447)],
                knots=[0, 0, 0, 0, 0.1151456515, 0.1151456515, 0.1151456515, 0.1151456515], degree=3))
            add(Edge.make_bspline(
                [(-27.5922827423, 37.4060608447), (-28.2755015456, 37.6020561785), (-30.0261371385, 37.6713902047), (-33.7485945978, 37.1206110724), (-36.0435991794, 36.0564506802), (-35.4321083624, 33.7366391612), (-35.0696091242, 32.3830767366), (-34.9767432438, 32.0521566405)],
                knots=[0.1151456515, 0.1151456515, 0.1151456515, 0.1151456515, 0.2479122111, 0.4161896337, 0.5387701595, 0.6814987627, 0.7283859827, 0.7283859827, 0.7283859827, 0.7283859827], degree=3))
            add(Edge.make_bspline(
                [(-34.9767432438, 32.0521566405), (-34.7532366395, 31.2557088322), (-34.1702531792, 29.3914414071), (-33.1741896497, 27.685937098), (-32.5919575989, 26.6890134662)],
                knots=[0.7283859827, 0.7283859827, 0.7283859827, 0.7283859827, 0.8412326306, 1, 1, 1, 1], degree=3))
            add(Edge.make_bspline(
                [(-32.5919575989, 26.6890134662), (-32.8945386918, 25.9158957938), (-33.5349320382, 24.2874540144), (-33.781583615, 21.8435384034), (-33.8329642576, 19.8682964543), (-33.5821208447, 18.5581128365), (-33.4224179387, 18.2217117399)],
                knots=[0, 0, 0, 0, 0.2736854592, 0.5404707588, 0.7854206431, 1, 1, 1, 1], degree=3))
            add(Edge.make_bspline(
                [(-22.5051622838, 12.6646552235), (-23.2698993381, 12.585646008), (-25.0409271932, 12.4243177363), (-29.9230854733, 14.0474108498), (-32.0972131041, 17.092986306), (-33.0998644515, 17.6895338337), (-33.4224179387, 18.2217117399)],
                knots=[0, 0, 0, 0, 0.2244698402, 0.5436070913, 0.8143768942, 1, 1, 1, 1], degree=3))
            add(Edge.make_bspline(
                [(-21.5986259282, 11.7104072124), (-21.9795620022, 12.0766070737), (-22.2471741532, 12.3694459222), (-22.5051622838, 12.6646552235)],
                knots=[0.7339487965, 0.7339487965, 0.7339487965, 0.7339487965, 1, 1, 1, 1], degree=3))
            add(Edge.make_bspline(
                [(-19.4980184097, 10.1359002292), (-20.2966286978, 10.5297396517), (-21.0606403725, 11.1932332052), (-21.5986259282, 11.7104072124)],
                knots=[0.3582119883, 0.3582119883, 0.3582119883, 0.3582119883, 0.7339487965, 0.7339487965, 0.7339487965, 0.7339487965], degree=3))
            add(Edge.make_bspline(
                [(-17.2026492655, 9.4844726846), (-17.9438476988, 9.6300464265), (-18.7366562727, 9.7604299545), (-19.4980184097, 10.1359002292)],
                knots=[0, 0, 0, 0, 0.3582119883, 0.3582119883, 0.3582119883, 0.3582119883], degree=3))
            add(Edge.make_bspline(
                [(-17.2026492655, 9.4844726846), (-16.4246267424, 9.4150428389), (-14.6615810403, 9.2577106444), (-10.8732080186, 10.6482508096), (-8.193518423, 12.8971920235), (-7.2729122009, 14.4463207658), (-6.8482430652, 15.1609228924)],
                knots=[0, 0, 0, 0, 0.2236349499, 0.5067702099, 0.7724765881, 1, 1, 1, 1], degree=3))
        make_face()
        with BuildLine():
            add(Edge.make_bspline(
                [(-22.2593601793, 15.9837640822), (-22.5653463949, 15.681460687), (-24.3137477803, 16.0191338429), (-26.0711828049, 16.3538343779), (-28.1853446509, 17.5429290283), (-28.8908014456, 19.4228011755), (-29.2775968034, 22.2082904989), (-28.7882211296, 24.8210720482), (-27.3962498114, 25.7294615315), (-26.1160258389, 26.0740852791), (-24.7821230981, 24.421140555), (-23.492721406, 22.1238829456), (-22.4633786018, 19.4848165808), (-22.347758525, 17.6469351497), (-21.9848447949, 16.2549754261), (-22.2593601793, 15.9837640822)],
                knots=[0, 0, 0, 0, 0.0736709441, 0.1503224423, 0.2304891387, 0.3050952934, 0.3959767319, 0.4817235549, 0.5482382163, 0.6048221398, 0.6785040272, 0.7682920275, 0.8579648281, 0.9339061484, 1, 1, 1, 1], degree=3))
        make_face(mode=Mode.SUBTRACT)
        with BuildLine():
            add(Edge.make_bspline(
                [(-9.6369059756, 18.8192427158), (-10.0888601759, 18.9022391109), (-10.7587332658, 20.5504261787), (-11.4343760832, 23.8883004024), (-10.7924983505, 28.0060455305), (-9.1289657364, 29.6520738583), (-7.9236921034, 30.6901250338), (-6.3679851909, 29.7676391192), (-4.9031113593, 27.9949784066), (-3.4507935251, 25.9051197156), (-2.8578108254, 24.2437587329), (-3.829714655, 22.5066642365), (-5.9619431178, 21.0036857582), (-7.748680448, 19.9415684015), (-9.1559599725, 18.7309222966), (-9.6369059756, 18.8192427158)],
                knots=[0, 0, 0, 0, 0.0687097324, 0.1670111785, 0.2703388361, 0.3478824252, 0.4072022871, 0.4704140785, 0.5499421649, 0.6323768919, 0.697530443, 0.7664525078, 0.8488286698, 0.9268826993, 1, 1, 1, 1], degree=3))
        make_face(mode=Mode.SUBTRACT)
    extrude(amount=F2_DEPTH)


solid = f1.part
